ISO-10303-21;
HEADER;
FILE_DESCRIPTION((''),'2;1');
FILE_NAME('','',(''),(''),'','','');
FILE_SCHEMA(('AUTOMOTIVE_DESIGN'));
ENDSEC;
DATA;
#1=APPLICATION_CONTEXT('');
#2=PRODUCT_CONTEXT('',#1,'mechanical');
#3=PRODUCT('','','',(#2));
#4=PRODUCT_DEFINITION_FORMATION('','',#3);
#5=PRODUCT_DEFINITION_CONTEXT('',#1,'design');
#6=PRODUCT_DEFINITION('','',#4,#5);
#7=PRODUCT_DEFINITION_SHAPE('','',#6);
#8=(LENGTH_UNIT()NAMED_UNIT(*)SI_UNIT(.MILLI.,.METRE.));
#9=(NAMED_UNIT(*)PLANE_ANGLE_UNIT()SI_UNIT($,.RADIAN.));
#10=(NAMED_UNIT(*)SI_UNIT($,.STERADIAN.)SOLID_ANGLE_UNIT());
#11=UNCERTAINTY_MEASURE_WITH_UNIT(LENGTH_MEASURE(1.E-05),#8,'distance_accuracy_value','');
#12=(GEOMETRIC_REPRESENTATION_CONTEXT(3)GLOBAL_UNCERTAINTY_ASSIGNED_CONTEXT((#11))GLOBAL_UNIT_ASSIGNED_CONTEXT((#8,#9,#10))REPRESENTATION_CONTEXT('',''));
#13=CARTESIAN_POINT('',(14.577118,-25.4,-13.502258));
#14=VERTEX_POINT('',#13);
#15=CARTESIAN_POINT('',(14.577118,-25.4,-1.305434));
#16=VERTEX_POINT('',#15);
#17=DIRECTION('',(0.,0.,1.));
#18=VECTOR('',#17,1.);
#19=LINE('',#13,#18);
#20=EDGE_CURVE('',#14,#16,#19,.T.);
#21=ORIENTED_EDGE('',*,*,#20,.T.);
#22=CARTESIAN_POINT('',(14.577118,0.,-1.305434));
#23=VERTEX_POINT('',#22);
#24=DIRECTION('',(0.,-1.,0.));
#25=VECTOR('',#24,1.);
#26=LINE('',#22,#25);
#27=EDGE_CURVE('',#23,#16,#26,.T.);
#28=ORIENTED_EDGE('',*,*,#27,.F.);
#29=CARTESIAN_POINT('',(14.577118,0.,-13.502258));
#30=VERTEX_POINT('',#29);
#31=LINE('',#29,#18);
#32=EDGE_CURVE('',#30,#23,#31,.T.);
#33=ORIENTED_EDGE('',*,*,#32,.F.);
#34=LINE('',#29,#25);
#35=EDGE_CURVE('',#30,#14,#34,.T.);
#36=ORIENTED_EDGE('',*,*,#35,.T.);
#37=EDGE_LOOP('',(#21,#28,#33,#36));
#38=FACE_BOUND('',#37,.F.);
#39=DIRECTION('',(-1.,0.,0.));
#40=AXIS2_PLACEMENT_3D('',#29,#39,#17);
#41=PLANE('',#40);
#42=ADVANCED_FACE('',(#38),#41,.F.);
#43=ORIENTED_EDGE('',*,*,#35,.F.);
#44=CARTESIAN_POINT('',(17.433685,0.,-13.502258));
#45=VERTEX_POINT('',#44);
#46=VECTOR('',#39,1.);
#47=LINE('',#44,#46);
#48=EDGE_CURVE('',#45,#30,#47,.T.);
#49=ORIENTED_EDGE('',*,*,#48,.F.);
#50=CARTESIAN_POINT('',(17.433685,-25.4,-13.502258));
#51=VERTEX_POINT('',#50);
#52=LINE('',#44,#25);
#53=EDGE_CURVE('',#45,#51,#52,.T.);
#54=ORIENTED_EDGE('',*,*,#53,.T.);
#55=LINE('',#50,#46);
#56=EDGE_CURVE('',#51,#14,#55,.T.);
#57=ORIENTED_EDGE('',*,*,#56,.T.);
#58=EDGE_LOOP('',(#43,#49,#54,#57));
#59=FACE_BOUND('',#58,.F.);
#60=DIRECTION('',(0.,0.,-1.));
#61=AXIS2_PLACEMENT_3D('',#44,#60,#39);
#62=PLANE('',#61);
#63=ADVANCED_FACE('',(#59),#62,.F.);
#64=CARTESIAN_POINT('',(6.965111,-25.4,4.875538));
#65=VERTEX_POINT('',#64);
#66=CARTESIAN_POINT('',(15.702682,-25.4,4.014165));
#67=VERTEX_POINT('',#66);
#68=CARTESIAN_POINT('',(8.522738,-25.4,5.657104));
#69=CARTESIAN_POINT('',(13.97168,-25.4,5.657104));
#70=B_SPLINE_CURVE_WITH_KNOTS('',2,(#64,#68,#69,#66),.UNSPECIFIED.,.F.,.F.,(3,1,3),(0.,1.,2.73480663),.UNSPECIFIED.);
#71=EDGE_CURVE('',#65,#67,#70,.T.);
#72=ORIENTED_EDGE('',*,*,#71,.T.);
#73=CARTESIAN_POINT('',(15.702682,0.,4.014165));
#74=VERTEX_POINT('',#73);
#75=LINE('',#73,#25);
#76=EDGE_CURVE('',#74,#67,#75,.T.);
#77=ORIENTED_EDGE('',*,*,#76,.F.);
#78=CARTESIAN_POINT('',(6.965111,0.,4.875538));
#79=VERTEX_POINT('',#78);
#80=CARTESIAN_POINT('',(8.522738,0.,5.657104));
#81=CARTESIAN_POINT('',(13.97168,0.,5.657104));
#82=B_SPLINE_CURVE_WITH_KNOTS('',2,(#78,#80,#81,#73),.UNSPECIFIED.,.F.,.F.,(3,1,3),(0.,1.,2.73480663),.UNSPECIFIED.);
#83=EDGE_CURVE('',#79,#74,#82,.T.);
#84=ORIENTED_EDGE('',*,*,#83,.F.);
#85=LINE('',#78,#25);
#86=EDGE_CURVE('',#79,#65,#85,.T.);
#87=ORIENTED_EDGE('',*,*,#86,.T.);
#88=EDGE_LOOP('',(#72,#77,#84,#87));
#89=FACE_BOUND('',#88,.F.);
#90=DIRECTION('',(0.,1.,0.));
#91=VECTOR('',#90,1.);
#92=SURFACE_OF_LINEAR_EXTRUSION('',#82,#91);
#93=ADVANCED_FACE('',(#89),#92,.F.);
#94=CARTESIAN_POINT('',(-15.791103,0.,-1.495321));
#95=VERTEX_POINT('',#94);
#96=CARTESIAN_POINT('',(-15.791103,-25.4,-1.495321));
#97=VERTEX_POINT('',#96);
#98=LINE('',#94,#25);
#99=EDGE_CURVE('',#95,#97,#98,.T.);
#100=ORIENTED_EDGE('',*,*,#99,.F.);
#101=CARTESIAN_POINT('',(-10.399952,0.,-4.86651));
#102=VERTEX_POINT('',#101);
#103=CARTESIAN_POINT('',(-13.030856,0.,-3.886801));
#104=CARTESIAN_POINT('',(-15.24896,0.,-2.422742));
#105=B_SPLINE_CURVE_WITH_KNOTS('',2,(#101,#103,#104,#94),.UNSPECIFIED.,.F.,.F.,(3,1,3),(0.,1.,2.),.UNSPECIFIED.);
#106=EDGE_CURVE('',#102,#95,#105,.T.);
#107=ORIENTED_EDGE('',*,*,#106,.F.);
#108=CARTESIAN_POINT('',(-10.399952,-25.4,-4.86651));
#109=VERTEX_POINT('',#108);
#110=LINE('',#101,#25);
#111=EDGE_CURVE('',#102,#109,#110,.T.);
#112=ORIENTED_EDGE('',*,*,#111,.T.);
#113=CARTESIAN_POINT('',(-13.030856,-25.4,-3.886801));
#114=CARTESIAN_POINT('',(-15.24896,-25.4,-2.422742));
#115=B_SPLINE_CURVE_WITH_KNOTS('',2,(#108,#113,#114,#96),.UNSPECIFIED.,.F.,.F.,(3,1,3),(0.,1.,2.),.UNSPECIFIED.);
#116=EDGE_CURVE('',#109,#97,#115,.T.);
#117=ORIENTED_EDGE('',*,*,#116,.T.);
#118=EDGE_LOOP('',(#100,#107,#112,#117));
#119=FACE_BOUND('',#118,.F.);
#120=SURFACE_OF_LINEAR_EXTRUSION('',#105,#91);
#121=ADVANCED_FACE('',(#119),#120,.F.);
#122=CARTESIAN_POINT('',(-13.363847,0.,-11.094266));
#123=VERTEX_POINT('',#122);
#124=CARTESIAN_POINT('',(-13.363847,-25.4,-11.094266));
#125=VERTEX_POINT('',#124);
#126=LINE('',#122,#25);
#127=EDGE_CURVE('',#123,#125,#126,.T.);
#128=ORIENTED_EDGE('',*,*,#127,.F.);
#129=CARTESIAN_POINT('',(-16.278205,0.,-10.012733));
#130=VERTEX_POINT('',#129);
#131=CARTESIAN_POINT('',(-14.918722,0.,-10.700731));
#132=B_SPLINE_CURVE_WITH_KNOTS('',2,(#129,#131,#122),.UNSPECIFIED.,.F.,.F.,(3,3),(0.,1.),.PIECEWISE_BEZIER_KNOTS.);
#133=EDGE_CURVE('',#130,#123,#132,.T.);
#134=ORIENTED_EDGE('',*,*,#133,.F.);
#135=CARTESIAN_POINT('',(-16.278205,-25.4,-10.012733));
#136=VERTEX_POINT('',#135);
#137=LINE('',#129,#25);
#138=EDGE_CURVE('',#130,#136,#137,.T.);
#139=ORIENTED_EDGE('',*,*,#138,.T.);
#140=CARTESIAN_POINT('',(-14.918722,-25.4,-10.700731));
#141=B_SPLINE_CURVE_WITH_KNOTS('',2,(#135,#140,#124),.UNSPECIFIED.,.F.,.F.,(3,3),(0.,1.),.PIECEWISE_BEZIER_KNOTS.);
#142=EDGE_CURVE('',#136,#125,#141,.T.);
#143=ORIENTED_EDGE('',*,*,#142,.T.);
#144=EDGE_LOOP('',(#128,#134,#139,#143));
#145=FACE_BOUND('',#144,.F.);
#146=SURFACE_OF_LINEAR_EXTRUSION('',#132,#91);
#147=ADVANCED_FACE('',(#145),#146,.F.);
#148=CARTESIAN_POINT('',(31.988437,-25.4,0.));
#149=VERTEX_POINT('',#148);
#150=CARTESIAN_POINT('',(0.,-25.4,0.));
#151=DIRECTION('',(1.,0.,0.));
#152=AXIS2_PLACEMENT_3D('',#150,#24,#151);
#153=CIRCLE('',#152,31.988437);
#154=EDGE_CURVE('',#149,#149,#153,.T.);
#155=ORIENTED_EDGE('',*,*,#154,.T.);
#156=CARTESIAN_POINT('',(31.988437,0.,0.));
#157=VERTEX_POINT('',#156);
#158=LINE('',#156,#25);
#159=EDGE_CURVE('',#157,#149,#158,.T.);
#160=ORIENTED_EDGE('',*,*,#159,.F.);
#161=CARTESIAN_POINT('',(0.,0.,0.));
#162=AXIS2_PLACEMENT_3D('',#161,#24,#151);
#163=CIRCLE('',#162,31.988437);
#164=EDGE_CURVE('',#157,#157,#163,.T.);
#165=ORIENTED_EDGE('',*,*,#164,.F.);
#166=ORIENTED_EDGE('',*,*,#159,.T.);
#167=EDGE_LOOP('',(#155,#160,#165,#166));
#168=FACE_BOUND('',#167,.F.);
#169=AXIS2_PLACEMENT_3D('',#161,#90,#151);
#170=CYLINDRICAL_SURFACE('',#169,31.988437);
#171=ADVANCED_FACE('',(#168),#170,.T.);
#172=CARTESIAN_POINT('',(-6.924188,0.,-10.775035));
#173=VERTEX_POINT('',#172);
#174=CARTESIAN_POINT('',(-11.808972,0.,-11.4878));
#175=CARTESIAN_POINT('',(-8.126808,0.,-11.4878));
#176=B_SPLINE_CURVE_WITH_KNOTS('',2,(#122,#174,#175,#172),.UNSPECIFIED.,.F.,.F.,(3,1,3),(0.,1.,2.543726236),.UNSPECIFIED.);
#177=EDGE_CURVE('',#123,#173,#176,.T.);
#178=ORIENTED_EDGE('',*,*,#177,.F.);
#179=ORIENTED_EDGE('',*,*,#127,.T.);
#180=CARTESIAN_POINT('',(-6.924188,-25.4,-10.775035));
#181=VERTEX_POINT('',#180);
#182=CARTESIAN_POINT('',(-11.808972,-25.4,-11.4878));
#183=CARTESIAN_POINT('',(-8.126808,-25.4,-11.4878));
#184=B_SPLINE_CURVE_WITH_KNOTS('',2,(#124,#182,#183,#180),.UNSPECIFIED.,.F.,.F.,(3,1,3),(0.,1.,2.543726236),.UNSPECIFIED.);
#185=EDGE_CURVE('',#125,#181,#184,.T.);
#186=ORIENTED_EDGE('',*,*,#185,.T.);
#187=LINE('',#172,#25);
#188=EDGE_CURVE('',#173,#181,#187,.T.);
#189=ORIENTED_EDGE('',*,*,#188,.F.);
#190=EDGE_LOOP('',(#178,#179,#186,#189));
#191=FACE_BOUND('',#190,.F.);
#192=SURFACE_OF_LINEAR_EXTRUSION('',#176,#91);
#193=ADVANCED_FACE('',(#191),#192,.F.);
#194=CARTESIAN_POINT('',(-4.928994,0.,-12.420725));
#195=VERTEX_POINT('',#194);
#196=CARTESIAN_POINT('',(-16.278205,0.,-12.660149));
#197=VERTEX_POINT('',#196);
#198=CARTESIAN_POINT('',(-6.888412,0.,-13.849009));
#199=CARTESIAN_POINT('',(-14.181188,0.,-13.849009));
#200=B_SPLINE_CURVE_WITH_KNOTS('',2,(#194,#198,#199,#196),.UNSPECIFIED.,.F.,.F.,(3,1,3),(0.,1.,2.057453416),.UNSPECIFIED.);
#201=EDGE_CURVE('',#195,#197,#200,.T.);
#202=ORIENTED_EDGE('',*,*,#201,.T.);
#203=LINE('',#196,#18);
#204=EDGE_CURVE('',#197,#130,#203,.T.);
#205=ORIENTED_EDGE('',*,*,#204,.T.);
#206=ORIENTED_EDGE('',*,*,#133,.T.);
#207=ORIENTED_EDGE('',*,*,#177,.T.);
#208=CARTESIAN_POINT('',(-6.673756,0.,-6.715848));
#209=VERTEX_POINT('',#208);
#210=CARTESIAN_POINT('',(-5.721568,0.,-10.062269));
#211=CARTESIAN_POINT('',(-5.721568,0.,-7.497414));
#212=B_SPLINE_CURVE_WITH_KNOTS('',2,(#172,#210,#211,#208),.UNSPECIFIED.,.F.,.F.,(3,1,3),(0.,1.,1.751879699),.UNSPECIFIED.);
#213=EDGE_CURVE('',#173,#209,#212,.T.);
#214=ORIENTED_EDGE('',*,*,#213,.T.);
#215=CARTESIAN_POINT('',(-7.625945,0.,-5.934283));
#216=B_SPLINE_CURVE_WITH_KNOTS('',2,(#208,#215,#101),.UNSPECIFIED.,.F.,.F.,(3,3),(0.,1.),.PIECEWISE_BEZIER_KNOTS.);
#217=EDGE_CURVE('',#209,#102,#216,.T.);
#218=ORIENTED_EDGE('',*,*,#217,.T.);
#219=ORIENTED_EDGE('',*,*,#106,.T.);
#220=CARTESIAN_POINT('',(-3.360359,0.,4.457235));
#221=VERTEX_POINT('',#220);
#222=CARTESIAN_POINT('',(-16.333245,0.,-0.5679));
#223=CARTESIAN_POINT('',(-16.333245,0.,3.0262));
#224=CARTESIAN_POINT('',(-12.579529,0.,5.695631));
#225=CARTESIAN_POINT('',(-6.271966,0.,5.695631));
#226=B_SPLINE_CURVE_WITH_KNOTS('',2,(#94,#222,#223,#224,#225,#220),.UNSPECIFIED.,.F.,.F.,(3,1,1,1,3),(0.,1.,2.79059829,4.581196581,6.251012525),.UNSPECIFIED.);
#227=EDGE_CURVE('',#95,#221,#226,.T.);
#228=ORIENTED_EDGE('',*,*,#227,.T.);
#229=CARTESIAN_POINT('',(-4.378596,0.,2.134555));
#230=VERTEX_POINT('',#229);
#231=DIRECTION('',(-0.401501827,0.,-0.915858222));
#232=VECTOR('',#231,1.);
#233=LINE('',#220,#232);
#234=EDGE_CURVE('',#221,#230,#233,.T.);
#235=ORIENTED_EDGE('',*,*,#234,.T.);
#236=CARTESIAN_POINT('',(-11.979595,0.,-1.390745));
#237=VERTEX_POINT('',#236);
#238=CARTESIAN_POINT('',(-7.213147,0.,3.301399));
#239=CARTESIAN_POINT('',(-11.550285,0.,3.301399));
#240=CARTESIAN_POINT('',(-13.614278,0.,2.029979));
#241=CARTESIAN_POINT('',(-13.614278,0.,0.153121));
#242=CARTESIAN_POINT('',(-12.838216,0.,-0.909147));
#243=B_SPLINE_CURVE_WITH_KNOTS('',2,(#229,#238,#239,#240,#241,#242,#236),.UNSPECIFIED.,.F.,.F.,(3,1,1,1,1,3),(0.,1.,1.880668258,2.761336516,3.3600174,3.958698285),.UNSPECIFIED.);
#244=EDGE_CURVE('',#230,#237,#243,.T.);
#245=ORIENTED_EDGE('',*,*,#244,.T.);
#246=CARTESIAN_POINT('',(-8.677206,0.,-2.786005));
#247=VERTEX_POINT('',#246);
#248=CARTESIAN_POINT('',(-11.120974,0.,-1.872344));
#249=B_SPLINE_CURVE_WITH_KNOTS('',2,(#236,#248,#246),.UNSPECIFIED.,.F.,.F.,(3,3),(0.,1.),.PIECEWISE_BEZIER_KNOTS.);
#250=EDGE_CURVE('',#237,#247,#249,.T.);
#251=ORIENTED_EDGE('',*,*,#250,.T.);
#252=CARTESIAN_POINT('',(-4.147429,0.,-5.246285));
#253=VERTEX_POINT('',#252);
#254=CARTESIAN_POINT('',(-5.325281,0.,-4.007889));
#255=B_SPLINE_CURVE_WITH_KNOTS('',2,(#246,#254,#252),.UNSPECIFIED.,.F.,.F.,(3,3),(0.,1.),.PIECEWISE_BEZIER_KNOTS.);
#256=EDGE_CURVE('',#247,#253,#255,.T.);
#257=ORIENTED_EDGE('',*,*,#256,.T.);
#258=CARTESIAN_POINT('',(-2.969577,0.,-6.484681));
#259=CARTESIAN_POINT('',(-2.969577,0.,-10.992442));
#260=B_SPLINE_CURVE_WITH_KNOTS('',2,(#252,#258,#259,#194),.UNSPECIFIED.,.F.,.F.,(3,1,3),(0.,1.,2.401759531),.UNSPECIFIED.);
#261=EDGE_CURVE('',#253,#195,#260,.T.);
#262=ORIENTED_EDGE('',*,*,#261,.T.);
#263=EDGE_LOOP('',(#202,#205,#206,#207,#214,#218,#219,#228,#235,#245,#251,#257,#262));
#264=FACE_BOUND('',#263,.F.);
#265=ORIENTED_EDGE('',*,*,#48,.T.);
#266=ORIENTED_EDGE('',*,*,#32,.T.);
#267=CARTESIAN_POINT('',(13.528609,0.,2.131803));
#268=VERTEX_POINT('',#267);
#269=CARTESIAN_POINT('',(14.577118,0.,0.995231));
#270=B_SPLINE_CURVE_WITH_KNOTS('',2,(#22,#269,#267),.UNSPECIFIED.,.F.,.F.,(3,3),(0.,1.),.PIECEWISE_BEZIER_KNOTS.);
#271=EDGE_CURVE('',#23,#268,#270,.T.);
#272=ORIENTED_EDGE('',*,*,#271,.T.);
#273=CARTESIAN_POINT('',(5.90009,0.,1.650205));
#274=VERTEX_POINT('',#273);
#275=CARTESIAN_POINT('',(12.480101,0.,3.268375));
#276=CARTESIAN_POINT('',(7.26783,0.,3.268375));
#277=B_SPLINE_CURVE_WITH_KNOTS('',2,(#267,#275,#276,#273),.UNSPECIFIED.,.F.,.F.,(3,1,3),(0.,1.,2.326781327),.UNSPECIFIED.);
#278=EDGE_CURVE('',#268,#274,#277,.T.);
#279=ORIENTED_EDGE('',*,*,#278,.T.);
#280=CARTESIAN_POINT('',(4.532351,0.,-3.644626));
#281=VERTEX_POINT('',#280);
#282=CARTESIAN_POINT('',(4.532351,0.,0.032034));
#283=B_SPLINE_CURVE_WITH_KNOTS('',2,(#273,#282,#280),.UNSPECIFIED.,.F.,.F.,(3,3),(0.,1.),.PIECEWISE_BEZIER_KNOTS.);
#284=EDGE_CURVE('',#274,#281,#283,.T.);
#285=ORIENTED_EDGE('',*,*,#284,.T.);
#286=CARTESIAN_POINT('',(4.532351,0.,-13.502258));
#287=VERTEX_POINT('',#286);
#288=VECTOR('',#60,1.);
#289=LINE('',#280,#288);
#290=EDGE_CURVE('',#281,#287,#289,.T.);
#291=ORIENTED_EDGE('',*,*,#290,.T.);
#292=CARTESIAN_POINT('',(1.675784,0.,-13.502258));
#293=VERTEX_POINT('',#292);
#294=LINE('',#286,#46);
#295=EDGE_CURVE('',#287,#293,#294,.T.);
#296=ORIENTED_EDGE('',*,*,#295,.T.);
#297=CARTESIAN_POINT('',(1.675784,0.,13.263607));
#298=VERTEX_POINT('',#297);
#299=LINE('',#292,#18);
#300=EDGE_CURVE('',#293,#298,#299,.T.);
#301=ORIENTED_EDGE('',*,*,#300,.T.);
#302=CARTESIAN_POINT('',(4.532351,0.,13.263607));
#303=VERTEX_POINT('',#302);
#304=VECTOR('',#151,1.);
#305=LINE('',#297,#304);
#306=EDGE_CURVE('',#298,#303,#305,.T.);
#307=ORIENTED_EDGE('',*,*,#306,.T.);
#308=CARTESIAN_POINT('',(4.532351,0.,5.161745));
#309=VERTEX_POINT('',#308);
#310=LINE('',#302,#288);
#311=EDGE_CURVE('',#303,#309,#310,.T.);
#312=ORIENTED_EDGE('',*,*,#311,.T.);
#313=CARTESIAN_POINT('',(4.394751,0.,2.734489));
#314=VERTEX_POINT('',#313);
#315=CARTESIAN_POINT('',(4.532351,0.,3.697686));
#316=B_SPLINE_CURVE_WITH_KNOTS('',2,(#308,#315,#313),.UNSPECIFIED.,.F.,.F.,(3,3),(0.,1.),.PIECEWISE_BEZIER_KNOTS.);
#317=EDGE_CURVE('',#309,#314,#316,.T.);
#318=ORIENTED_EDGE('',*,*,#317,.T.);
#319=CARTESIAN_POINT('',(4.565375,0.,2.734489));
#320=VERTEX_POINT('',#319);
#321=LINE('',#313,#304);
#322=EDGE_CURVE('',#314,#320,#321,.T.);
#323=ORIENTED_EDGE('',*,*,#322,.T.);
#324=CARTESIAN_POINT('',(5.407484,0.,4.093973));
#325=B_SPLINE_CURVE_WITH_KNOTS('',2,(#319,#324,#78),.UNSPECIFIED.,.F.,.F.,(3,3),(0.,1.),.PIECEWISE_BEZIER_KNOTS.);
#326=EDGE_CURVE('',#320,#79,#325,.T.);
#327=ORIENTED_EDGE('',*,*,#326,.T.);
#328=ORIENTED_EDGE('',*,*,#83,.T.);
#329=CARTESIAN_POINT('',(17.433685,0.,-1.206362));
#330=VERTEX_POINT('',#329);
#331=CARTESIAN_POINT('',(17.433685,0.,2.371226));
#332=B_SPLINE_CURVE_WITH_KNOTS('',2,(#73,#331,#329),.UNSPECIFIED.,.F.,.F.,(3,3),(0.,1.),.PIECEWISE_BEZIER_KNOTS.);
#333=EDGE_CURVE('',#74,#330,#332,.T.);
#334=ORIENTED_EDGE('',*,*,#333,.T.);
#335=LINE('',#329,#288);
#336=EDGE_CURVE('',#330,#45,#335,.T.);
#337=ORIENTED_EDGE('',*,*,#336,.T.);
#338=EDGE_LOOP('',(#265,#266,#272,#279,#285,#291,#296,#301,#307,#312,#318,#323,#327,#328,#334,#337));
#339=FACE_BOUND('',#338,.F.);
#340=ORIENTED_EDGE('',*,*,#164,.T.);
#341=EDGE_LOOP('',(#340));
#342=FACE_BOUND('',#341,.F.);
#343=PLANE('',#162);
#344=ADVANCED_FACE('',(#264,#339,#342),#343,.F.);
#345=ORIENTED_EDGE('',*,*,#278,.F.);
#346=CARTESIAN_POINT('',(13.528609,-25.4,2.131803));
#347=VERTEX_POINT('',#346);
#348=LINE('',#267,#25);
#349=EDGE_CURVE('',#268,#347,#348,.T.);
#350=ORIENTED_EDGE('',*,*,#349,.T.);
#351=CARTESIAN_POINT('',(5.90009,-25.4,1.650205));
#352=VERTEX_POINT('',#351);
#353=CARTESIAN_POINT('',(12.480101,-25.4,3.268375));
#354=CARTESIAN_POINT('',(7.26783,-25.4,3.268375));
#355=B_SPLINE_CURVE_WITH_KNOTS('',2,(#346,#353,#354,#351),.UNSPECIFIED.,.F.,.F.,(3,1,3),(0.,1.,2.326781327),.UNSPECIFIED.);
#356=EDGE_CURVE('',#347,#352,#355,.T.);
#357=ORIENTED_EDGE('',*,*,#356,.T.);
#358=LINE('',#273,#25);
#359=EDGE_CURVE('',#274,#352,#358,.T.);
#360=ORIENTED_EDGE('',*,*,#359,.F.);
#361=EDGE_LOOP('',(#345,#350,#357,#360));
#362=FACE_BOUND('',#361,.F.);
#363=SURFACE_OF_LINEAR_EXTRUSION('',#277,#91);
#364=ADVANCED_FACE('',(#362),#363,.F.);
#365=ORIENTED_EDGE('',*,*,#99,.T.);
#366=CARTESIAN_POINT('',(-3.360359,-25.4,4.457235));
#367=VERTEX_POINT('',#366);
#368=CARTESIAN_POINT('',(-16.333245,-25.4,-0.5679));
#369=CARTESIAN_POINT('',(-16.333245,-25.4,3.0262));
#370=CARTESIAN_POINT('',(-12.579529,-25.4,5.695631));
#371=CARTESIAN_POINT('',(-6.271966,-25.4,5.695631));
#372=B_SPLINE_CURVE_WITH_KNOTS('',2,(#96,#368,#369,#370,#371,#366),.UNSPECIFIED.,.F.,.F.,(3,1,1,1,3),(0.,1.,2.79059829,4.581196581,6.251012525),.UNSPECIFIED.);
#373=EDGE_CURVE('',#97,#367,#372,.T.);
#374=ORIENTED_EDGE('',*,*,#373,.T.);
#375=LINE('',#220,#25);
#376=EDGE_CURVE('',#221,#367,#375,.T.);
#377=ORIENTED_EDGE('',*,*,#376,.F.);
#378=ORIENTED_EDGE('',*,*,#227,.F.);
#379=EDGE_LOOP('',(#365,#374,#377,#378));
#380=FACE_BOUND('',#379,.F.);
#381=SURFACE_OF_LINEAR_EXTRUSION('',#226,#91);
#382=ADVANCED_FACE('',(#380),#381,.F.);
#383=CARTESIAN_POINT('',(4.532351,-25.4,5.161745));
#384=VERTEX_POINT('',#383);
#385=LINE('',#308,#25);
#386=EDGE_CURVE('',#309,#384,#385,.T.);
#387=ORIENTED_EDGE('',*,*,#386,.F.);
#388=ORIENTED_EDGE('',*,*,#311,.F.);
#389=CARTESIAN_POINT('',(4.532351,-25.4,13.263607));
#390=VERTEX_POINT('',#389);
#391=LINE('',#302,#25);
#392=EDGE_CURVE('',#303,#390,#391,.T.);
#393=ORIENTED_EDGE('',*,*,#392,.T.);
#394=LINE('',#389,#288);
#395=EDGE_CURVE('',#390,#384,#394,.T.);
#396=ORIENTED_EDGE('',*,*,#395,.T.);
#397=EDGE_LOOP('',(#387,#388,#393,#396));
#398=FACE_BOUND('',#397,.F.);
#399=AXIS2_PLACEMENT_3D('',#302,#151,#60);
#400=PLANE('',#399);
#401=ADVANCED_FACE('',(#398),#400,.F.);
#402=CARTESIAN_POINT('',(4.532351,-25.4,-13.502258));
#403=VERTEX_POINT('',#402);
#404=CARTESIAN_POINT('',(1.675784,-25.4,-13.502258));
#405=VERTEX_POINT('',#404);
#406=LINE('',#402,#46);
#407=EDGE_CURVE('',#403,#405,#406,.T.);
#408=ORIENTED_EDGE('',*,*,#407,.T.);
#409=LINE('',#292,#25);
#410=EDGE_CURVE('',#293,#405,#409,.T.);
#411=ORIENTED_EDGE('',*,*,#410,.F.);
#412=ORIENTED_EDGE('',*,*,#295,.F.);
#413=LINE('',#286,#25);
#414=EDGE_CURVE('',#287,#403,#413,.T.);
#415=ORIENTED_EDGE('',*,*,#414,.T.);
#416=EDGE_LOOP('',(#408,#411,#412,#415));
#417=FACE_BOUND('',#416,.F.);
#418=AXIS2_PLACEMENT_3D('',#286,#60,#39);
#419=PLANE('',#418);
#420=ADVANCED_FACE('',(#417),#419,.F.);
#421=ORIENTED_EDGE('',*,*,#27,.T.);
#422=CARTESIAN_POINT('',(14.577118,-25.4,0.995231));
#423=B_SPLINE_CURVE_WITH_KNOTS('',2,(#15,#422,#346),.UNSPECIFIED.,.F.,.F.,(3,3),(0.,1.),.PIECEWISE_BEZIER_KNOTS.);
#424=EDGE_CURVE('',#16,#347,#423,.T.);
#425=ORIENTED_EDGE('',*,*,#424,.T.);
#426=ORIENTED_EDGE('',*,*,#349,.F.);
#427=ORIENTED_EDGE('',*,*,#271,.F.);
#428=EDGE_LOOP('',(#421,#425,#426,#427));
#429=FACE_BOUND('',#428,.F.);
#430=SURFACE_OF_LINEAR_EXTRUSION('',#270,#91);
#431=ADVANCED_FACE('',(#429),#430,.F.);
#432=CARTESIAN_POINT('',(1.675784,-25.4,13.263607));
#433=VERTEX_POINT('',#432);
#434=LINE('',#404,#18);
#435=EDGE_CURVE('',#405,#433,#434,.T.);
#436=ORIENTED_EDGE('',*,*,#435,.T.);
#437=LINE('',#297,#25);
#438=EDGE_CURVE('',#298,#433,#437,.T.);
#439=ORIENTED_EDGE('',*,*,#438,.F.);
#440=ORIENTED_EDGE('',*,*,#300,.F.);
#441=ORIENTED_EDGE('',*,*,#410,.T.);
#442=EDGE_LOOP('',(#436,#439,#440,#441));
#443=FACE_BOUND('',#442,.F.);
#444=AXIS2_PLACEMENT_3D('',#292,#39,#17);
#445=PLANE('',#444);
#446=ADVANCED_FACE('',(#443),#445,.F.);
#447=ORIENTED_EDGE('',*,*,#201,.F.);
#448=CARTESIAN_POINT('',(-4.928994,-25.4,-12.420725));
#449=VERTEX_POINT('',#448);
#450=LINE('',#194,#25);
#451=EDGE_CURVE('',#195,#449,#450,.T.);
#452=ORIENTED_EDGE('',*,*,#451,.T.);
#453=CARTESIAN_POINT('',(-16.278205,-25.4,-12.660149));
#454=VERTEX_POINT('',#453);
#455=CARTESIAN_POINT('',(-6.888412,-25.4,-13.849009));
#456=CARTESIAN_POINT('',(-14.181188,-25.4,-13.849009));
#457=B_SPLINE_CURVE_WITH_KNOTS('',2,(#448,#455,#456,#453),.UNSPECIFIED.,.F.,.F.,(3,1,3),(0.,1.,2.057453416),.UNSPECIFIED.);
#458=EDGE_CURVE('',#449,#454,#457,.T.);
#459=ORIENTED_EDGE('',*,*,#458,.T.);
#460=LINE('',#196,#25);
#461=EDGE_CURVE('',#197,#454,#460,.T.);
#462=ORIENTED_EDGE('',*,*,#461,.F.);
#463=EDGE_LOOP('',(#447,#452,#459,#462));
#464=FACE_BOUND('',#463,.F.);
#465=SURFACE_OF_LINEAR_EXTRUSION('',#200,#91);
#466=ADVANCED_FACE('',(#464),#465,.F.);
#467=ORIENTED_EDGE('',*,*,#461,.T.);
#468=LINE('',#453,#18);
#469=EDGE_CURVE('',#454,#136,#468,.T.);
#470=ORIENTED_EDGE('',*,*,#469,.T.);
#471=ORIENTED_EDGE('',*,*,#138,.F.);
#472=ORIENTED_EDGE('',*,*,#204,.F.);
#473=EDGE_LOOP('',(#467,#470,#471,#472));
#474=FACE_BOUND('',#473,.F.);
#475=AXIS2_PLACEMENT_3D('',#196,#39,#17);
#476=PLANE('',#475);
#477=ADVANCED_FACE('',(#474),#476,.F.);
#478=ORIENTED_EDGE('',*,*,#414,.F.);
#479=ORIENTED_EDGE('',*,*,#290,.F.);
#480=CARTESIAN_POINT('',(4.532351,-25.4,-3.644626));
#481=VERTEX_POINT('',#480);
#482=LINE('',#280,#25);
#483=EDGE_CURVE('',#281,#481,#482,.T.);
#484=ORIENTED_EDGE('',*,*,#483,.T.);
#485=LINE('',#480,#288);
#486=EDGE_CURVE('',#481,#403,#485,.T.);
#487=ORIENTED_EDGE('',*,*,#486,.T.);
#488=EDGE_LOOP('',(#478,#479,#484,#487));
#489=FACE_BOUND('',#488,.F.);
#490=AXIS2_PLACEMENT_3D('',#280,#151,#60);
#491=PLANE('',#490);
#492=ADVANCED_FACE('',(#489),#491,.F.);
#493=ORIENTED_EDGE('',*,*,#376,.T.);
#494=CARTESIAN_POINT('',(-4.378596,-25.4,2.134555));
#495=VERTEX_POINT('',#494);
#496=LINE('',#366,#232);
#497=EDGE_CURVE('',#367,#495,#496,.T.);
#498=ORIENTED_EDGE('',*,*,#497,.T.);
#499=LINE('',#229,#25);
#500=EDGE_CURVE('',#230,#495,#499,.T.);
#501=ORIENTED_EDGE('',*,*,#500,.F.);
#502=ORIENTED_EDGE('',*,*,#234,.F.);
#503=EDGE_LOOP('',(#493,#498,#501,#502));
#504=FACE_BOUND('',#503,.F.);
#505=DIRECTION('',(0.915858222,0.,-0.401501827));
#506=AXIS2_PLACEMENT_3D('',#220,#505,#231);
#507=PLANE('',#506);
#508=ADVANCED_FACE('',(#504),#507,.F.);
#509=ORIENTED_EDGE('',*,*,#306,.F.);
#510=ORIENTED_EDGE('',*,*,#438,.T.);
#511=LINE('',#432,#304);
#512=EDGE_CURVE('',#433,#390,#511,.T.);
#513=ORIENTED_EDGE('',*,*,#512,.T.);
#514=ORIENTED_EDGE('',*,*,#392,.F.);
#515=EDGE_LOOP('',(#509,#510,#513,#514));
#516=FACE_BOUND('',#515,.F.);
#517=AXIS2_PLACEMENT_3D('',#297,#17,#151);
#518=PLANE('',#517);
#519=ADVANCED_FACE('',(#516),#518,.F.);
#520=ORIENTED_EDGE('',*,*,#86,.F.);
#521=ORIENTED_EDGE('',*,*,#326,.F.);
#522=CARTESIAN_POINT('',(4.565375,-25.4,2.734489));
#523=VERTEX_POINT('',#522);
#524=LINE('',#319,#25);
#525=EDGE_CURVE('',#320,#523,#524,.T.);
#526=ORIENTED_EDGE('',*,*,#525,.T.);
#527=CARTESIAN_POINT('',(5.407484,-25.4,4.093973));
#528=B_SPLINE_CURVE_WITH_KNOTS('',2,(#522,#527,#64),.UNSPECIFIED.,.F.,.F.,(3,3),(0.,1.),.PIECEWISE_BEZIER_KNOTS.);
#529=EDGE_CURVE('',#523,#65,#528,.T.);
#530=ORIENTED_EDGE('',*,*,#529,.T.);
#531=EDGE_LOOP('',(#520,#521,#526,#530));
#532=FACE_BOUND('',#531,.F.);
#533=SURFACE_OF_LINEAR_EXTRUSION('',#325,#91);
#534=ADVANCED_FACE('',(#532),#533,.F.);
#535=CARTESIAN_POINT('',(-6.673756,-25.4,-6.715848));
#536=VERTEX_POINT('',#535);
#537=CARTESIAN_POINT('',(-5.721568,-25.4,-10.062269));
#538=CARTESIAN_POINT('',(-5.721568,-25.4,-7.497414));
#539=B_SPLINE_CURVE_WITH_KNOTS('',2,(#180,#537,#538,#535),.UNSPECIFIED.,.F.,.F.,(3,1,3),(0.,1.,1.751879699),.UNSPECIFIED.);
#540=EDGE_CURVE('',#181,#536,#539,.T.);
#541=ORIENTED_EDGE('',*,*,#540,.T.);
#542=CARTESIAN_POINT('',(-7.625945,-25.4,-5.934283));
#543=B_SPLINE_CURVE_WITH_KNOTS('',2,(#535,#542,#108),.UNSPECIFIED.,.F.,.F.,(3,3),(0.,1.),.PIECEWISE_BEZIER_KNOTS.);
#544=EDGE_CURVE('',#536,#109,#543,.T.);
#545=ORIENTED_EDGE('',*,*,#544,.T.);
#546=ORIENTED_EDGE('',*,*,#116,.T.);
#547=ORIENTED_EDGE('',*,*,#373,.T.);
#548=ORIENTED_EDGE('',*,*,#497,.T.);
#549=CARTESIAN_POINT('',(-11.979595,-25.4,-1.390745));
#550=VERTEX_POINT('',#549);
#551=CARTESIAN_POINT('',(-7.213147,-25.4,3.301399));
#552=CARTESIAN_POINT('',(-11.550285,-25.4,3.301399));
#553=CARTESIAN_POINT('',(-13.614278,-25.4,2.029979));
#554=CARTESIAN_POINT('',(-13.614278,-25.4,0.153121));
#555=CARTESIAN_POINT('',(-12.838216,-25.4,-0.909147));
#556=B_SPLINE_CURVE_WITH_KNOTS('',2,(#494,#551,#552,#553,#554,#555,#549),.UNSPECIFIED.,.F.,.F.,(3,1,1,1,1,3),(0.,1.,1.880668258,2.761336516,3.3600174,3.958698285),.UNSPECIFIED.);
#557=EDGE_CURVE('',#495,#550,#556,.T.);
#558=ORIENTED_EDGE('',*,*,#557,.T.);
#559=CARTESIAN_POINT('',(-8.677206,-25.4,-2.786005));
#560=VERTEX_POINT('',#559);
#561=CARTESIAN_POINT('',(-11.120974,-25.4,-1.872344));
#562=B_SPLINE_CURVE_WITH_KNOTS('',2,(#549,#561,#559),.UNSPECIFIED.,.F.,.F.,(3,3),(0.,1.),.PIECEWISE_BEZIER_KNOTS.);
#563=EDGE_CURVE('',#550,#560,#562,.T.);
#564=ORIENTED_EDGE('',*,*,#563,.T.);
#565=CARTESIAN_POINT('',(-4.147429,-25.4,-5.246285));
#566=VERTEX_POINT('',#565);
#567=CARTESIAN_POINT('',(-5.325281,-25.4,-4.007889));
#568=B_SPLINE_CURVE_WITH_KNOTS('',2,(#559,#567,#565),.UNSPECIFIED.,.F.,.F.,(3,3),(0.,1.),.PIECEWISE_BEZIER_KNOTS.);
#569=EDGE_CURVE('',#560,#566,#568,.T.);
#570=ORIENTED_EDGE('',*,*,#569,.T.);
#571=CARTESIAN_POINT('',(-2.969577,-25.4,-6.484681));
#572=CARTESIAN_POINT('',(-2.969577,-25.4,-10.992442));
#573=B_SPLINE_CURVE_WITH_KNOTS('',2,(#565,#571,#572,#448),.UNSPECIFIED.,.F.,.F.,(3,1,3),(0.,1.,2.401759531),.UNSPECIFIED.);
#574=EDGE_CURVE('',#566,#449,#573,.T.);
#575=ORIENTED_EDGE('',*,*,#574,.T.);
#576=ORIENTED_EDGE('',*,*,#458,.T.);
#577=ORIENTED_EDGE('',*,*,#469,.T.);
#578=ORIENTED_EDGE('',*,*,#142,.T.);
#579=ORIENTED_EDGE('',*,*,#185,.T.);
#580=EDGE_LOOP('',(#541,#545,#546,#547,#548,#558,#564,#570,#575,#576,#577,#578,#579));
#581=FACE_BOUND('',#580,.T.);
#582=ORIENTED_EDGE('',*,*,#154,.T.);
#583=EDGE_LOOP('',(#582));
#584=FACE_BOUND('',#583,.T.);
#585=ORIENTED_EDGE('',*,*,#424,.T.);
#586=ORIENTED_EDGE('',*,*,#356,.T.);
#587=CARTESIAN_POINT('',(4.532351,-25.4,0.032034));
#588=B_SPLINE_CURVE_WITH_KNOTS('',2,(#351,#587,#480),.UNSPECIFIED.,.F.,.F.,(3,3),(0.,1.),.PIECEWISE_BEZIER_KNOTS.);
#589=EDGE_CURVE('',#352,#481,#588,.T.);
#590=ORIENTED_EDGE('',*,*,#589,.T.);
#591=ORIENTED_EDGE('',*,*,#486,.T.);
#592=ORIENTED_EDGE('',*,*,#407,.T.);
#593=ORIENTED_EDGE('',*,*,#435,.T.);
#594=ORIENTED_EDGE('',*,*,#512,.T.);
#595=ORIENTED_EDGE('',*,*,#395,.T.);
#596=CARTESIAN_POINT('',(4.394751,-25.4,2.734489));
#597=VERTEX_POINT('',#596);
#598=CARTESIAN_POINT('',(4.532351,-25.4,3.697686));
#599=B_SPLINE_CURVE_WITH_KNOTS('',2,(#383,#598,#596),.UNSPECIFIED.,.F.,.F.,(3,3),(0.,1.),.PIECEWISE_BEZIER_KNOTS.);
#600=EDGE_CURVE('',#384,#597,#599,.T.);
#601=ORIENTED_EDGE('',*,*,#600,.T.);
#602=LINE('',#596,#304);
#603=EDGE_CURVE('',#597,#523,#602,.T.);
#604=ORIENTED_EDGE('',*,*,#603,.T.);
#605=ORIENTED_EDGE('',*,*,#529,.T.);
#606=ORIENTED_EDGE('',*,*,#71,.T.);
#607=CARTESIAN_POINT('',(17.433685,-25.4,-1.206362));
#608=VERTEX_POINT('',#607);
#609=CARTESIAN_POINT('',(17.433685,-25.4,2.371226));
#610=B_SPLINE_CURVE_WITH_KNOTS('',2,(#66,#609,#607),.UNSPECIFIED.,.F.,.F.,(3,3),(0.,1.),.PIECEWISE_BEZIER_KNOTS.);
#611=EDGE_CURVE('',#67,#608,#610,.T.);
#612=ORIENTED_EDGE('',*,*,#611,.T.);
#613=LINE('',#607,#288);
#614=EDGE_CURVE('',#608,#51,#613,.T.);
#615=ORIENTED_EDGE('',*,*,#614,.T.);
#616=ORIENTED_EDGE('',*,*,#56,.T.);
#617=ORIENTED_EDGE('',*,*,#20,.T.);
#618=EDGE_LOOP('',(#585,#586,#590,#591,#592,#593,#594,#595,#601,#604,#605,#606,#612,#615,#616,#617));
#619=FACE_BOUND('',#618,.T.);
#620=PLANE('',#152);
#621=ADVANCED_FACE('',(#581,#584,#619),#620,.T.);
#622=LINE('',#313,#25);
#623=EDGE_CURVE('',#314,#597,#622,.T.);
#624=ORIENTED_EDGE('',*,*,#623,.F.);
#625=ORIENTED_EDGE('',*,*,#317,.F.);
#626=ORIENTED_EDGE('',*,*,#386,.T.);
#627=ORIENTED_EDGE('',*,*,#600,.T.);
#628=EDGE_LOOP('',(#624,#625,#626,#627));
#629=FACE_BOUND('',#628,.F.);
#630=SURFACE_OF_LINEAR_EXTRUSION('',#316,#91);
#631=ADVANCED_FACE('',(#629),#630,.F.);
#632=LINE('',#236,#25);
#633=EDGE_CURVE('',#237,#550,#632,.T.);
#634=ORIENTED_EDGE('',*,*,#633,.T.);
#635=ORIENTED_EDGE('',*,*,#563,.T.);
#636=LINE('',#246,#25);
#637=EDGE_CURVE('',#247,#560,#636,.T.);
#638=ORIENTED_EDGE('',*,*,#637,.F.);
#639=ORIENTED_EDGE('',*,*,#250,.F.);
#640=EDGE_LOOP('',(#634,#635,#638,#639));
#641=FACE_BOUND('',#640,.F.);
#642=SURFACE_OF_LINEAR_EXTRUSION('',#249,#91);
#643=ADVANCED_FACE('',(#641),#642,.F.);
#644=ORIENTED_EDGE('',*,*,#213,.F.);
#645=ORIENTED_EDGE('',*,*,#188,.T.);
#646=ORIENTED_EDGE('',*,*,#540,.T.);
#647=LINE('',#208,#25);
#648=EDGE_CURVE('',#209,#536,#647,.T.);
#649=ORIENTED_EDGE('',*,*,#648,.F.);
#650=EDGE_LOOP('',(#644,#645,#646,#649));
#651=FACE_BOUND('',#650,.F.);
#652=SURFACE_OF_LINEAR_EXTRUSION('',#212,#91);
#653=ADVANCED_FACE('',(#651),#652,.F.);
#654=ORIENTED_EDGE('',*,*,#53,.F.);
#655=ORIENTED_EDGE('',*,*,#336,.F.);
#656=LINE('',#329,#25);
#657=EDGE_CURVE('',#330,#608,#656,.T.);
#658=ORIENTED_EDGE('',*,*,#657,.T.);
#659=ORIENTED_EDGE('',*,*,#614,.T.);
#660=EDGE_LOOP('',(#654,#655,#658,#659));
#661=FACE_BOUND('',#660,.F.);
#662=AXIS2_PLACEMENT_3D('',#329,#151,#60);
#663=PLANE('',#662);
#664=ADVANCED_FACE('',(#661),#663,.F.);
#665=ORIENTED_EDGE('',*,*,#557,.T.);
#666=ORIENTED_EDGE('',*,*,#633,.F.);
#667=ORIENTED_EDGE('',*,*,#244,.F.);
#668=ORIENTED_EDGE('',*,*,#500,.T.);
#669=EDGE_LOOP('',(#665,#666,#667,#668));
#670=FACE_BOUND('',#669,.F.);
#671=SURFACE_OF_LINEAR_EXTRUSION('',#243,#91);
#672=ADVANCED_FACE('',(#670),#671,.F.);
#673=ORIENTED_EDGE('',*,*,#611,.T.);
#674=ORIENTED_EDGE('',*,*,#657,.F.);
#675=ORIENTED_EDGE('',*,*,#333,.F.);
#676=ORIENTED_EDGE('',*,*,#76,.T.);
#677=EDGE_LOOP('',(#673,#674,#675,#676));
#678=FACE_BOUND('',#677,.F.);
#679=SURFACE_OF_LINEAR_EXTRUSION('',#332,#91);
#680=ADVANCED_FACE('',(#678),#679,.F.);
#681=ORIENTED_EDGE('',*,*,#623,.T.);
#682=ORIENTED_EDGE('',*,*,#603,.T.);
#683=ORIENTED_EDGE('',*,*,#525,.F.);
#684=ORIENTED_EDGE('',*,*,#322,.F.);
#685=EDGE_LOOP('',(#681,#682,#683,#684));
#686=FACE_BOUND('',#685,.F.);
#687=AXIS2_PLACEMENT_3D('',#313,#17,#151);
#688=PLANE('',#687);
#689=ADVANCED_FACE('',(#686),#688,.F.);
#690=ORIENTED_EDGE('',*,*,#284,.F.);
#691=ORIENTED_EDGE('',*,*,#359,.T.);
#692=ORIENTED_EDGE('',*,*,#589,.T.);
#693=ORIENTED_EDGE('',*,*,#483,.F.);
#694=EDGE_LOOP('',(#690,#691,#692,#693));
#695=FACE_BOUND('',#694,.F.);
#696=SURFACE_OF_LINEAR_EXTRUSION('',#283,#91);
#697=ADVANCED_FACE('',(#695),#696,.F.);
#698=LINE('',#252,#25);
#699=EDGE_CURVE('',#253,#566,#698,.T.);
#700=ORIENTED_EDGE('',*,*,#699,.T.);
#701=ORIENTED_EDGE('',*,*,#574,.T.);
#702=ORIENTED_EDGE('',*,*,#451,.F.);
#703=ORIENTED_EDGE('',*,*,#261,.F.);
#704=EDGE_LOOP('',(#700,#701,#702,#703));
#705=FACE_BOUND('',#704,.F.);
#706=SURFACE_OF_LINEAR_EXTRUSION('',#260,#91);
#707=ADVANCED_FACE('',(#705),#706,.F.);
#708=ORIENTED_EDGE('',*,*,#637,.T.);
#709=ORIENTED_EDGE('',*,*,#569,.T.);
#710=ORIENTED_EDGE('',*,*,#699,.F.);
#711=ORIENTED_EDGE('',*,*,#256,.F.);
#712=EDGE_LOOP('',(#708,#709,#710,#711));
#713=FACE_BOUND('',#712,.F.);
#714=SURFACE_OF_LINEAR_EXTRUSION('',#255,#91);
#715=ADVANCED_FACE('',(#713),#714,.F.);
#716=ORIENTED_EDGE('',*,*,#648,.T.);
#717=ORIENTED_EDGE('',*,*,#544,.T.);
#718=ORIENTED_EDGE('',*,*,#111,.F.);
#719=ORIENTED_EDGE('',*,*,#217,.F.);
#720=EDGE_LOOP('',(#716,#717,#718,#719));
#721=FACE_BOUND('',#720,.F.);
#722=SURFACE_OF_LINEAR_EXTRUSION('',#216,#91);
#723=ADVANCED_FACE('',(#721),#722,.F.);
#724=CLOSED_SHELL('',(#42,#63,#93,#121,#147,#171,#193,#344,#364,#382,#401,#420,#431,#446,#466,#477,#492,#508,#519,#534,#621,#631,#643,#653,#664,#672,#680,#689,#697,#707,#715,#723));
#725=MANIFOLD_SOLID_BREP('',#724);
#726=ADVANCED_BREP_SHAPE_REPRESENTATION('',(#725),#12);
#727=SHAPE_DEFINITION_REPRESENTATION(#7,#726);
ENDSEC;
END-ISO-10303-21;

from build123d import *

# Parameters (mm, degrees)
F0_R     = 31.9884370587
F1_DEPTH = 25.4


with BuildPart() as f1:
    # F0 (on Front) → F1 (new body)
    with BuildSketch(Plane.XZ):
        Circle(F0_R)
        with BuildLine():
            add(Edge.make_bspline(
                [(-4.1474287559, -5.2462848568), (-2.9695766051, -6.4846808097), (-2.9695766051, -8.3615386761)],
                knots=[0, 0, 0, 1, 1, 1], degree=2))
            add(Edge.make_bspline(
                [(-2.9695766051, -8.3615386761), (-2.9695766051, -10.9924420782), (-4.9289942017, -12.4207254106)],
                knots=[0, 0, 0, 1, 1, 1], degree=2))
            add(Edge.make_bspline(
                [(-4.9289942017, -12.4207254106), (-6.8884117983, -13.8490087429), (-10.4329762146, -13.8490087429)],
                knots=[0, 0, 0, 1, 1, 1], degree=2))
            add(Edge.make_bspline(
                [(-10.4329762146, -13.8490087429), (-14.1811879653, -13.8490087429), (-16.2782051122, -12.6601486281)],
                knots=[0, 0, 0, 1, 1, 1], degree=2))
            Line((-16.2782051122, -12.6601486281), (-16.2782051122, -10.0127332799))
            add(Edge.make_bspline(
                [(-16.2782051122, -10.0127332799), (-14.9187215551, -10.7007310315), (-13.3638466364, -11.0942657455)],
                knots=[0, 0, 0, 1, 1, 1], degree=2))
            add(Edge.make_bspline(
                [(-13.3638466364, -11.0942657455), (-11.8089717178, -11.4878004594), (-10.3614244484, -11.4878004594)],
                knots=[0, 0, 0, 1, 1, 1], degree=2))
            add(Edge.make_bspline(
                [(-10.3614244484, -11.4878004594), (-8.1268077512, -11.4878004594), (-6.9241876814, -10.7750347887)],
                knots=[0, 0, 0, 1, 1, 1], degree=2))
            add(Edge.make_bspline(
                [(-6.9241876814, -10.7750347887), (-5.7215676115, -10.0622691181), (-5.7215676115, -8.5982099026)],
                knots=[0, 0, 0, 1, 1, 1], degree=2))
            add(Edge.make_bspline(
                [(-5.7215676115, -8.5982099026), (-5.7215676115, -7.4974135001), (-6.6737564998, -6.7158480542)],
                knots=[0, 0, 0, 1, 1, 1], degree=2))
            add(Edge.make_bspline(
                [(-6.6737564998, -6.7158480542), (-7.625945388, -5.9342826084), (-10.3999523225, -4.8665100979)],
                knots=[0, 0, 0, 1, 1, 1], degree=2))
            add(Edge.make_bspline(
                [(-10.3999523225, -4.8665100979), (-13.0308557246, -3.8868012996), (-14.1399081002, -3.1547716919)],
                knots=[0, 0, 0, 1, 1, 1], degree=2))
            add(Edge.make_bspline(
                [(-14.1399081002, -3.1547716919), (-15.2489604758, -2.4227420842), (-15.7911027041, -1.495321115)],
                knots=[0, 0, 0, 1, 1, 1], degree=2))
            add(Edge.make_bspline(
                [(-15.7911027041, -1.495321115), (-16.3332449324, -0.5679001459), (-16.3332449324, 0.7200316452)],
                knots=[0, 0, 0, 1, 1, 1], degree=2))
            add(Edge.make_bspline(
                [(-16.3332449324, 0.7200316452), (-16.3332449324, 3.0262001086), (-14.456387066, 4.3609157467)],
                knots=[0, 0, 0, 1, 1, 1], degree=2))
            add(Edge.make_bspline(
                [(-14.456387066, 4.3609157467), (-12.5795291996, 5.6956313848), (-9.3156678659, 5.6956313848)],
                knots=[0, 0, 0, 1, 1, 1], degree=2))
            add(Edge.make_bspline(
                [(-9.3156678659, 5.6956313848), (-6.2719658128, 5.6956313848), (-3.360359328, 4.4572354319)],
                knots=[0, 0, 0, 1, 1, 1], degree=2))
            Line((-3.360359328, 4.4572354319), (-4.3785960004, 2.1345550225))
            add(Edge.make_bspline(
                [(-4.3785960004, 2.1345550225), (-7.213146737, 3.3013992092), (-9.5193152004, 3.3013992092)],
                knots=[0, 0, 0, 1, 1, 1], degree=2))
            add(Edge.make_bspline(
                [(-9.5193152004, 3.3013992092), (-11.5502845632, 3.3013992092), (-12.5822811906, 2.6656892867)],
                knots=[0, 0, 0, 1, 1, 1], degree=2))
            add(Edge.make_bspline(
                [(-12.5822811906, 2.6656892867), (-13.614277818, 2.0299793642), (-13.614277818, 0.9126710156)],
                knots=[0, 0, 0, 1, 1, 1], degree=2))
            add(Edge.make_bspline(
                [(-13.614277818, 0.9126710156), (-13.614277818, 0.1531214978), (-13.2262470861, -0.3780127664)],
                knots=[0, 0, 0, 1, 1, 1], degree=2))
            add(Edge.make_bspline(
                [(-13.2262470861, -0.3780127664), (-12.8382163542, -0.9091470306), (-11.9795951602, -1.3907454568)],
                knots=[0, 0, 0, 1, 1, 1], degree=2))
            add(Edge.make_bspline(
                [(-11.9795951602, -1.3907454568), (-11.1209739662, -1.8723438829), (-8.6772059525, -2.786004897)],
                knots=[0, 0, 0, 1, 1, 1], degree=2))
            add(Edge.make_bspline(
                [(-8.6772059525, -2.786004897), (-5.3252809066, -4.0078889039), (-4.1474287559, -5.2462848568)],
                knots=[0, 0, 0, 1, 1, 1], degree=2))
        make_face(mode=Mode.SUBTRACT)
        with BuildLine():
            Line((17.4336847166, -13.5022578761), (14.5771180519, -13.5022578761))
            Line((14.5771180519, -13.5022578761), (14.5771180519, -1.3054337356))
            add(Edge.make_bspline(
                [(14.5771180519, -1.3054337356), (14.5771180519, 0.9952307458), (13.5286094785, 2.1318030315)],
                knots=[0, 0, 0, 1, 1, 1], degree=2))
            add(Edge.make_bspline(
                [(13.5286094785, 2.1318030315), (12.480100905, 3.2683753171), (10.2399802258, 3.2683753171)],
                knots=[0, 0, 0, 1, 1, 1], degree=2))
            add(Edge.make_bspline(
                [(10.2399802258, 3.2683753171), (7.2678299388, 3.2683753171), (5.9000904086, 1.6502046053)],
                knots=[0, 0, 0, 1, 1, 1], degree=2))
            add(Edge.make_bspline(
                [(5.9000904086, 1.6502046053), (4.5323508784, 0.0320338936), (4.5323508784, -3.644626091)],
                knots=[0, 0, 0, 1, 1, 1], degree=2))
            Line((4.5323508784, -3.644626091), (4.5323508784, -13.5022578761))
            Line((4.5323508784, -13.5022578761), (1.6757842138, -13.5022578761))
            Line((1.6757842138, -13.5022578761), (1.6757842138, 13.2636066525))
            Line((1.6757842138, 13.2636066525), (4.5323508784, 13.2636066525))
            Line((4.5323508784, 13.2636066525), (4.5323508784, 5.1617451295))
            add(Edge.make_bspline(
                [(4.5323508784, 5.1617451295), (4.5323508784, 3.6976859141), (4.3947513281, 2.7344890619)],
                knots=[0, 0, 0, 1, 1, 1], degree=2))
            Line((4.3947513281, 2.7344890619), (4.5653747705, 2.7344890619))
            add(Edge.make_bspline(
                [(4.5653747705, 2.7344890619), (5.4074840185, 4.0939726191), (6.9651109281, 4.8755380649)],
                knots=[0, 0, 0, 1, 1, 1], degree=2))
            add(Edge.make_bspline(
                [(6.9651109281, 4.8755380649), (8.5227378378, 5.6571035107), (10.5151793264, 5.6571035107)],
                knots=[0, 0, 0, 1, 1, 1], degree=2))
            add(Edge.make_bspline(
                [(10.5151793264, 5.6571035107), (13.9716800305, 5.6571035107), (15.7026823736, 4.0141648799)],
                knots=[0, 0, 0, 1, 1, 1], degree=2))
            add(Edge.make_bspline(
                [(15.7026823736, 4.0141648799), (17.4336847166, 2.371226249), (17.4336847166, -1.2063620593)],
                knots=[0, 0, 0, 1, 1, 1], degree=2))
            Line((17.4336847166, -1.2063620593), (17.4336847166, -13.5022578761))
        make_face(mode=Mode.SUBTRACT)
    extrude(amount=F1_DEPTH)


solid = f1.part
